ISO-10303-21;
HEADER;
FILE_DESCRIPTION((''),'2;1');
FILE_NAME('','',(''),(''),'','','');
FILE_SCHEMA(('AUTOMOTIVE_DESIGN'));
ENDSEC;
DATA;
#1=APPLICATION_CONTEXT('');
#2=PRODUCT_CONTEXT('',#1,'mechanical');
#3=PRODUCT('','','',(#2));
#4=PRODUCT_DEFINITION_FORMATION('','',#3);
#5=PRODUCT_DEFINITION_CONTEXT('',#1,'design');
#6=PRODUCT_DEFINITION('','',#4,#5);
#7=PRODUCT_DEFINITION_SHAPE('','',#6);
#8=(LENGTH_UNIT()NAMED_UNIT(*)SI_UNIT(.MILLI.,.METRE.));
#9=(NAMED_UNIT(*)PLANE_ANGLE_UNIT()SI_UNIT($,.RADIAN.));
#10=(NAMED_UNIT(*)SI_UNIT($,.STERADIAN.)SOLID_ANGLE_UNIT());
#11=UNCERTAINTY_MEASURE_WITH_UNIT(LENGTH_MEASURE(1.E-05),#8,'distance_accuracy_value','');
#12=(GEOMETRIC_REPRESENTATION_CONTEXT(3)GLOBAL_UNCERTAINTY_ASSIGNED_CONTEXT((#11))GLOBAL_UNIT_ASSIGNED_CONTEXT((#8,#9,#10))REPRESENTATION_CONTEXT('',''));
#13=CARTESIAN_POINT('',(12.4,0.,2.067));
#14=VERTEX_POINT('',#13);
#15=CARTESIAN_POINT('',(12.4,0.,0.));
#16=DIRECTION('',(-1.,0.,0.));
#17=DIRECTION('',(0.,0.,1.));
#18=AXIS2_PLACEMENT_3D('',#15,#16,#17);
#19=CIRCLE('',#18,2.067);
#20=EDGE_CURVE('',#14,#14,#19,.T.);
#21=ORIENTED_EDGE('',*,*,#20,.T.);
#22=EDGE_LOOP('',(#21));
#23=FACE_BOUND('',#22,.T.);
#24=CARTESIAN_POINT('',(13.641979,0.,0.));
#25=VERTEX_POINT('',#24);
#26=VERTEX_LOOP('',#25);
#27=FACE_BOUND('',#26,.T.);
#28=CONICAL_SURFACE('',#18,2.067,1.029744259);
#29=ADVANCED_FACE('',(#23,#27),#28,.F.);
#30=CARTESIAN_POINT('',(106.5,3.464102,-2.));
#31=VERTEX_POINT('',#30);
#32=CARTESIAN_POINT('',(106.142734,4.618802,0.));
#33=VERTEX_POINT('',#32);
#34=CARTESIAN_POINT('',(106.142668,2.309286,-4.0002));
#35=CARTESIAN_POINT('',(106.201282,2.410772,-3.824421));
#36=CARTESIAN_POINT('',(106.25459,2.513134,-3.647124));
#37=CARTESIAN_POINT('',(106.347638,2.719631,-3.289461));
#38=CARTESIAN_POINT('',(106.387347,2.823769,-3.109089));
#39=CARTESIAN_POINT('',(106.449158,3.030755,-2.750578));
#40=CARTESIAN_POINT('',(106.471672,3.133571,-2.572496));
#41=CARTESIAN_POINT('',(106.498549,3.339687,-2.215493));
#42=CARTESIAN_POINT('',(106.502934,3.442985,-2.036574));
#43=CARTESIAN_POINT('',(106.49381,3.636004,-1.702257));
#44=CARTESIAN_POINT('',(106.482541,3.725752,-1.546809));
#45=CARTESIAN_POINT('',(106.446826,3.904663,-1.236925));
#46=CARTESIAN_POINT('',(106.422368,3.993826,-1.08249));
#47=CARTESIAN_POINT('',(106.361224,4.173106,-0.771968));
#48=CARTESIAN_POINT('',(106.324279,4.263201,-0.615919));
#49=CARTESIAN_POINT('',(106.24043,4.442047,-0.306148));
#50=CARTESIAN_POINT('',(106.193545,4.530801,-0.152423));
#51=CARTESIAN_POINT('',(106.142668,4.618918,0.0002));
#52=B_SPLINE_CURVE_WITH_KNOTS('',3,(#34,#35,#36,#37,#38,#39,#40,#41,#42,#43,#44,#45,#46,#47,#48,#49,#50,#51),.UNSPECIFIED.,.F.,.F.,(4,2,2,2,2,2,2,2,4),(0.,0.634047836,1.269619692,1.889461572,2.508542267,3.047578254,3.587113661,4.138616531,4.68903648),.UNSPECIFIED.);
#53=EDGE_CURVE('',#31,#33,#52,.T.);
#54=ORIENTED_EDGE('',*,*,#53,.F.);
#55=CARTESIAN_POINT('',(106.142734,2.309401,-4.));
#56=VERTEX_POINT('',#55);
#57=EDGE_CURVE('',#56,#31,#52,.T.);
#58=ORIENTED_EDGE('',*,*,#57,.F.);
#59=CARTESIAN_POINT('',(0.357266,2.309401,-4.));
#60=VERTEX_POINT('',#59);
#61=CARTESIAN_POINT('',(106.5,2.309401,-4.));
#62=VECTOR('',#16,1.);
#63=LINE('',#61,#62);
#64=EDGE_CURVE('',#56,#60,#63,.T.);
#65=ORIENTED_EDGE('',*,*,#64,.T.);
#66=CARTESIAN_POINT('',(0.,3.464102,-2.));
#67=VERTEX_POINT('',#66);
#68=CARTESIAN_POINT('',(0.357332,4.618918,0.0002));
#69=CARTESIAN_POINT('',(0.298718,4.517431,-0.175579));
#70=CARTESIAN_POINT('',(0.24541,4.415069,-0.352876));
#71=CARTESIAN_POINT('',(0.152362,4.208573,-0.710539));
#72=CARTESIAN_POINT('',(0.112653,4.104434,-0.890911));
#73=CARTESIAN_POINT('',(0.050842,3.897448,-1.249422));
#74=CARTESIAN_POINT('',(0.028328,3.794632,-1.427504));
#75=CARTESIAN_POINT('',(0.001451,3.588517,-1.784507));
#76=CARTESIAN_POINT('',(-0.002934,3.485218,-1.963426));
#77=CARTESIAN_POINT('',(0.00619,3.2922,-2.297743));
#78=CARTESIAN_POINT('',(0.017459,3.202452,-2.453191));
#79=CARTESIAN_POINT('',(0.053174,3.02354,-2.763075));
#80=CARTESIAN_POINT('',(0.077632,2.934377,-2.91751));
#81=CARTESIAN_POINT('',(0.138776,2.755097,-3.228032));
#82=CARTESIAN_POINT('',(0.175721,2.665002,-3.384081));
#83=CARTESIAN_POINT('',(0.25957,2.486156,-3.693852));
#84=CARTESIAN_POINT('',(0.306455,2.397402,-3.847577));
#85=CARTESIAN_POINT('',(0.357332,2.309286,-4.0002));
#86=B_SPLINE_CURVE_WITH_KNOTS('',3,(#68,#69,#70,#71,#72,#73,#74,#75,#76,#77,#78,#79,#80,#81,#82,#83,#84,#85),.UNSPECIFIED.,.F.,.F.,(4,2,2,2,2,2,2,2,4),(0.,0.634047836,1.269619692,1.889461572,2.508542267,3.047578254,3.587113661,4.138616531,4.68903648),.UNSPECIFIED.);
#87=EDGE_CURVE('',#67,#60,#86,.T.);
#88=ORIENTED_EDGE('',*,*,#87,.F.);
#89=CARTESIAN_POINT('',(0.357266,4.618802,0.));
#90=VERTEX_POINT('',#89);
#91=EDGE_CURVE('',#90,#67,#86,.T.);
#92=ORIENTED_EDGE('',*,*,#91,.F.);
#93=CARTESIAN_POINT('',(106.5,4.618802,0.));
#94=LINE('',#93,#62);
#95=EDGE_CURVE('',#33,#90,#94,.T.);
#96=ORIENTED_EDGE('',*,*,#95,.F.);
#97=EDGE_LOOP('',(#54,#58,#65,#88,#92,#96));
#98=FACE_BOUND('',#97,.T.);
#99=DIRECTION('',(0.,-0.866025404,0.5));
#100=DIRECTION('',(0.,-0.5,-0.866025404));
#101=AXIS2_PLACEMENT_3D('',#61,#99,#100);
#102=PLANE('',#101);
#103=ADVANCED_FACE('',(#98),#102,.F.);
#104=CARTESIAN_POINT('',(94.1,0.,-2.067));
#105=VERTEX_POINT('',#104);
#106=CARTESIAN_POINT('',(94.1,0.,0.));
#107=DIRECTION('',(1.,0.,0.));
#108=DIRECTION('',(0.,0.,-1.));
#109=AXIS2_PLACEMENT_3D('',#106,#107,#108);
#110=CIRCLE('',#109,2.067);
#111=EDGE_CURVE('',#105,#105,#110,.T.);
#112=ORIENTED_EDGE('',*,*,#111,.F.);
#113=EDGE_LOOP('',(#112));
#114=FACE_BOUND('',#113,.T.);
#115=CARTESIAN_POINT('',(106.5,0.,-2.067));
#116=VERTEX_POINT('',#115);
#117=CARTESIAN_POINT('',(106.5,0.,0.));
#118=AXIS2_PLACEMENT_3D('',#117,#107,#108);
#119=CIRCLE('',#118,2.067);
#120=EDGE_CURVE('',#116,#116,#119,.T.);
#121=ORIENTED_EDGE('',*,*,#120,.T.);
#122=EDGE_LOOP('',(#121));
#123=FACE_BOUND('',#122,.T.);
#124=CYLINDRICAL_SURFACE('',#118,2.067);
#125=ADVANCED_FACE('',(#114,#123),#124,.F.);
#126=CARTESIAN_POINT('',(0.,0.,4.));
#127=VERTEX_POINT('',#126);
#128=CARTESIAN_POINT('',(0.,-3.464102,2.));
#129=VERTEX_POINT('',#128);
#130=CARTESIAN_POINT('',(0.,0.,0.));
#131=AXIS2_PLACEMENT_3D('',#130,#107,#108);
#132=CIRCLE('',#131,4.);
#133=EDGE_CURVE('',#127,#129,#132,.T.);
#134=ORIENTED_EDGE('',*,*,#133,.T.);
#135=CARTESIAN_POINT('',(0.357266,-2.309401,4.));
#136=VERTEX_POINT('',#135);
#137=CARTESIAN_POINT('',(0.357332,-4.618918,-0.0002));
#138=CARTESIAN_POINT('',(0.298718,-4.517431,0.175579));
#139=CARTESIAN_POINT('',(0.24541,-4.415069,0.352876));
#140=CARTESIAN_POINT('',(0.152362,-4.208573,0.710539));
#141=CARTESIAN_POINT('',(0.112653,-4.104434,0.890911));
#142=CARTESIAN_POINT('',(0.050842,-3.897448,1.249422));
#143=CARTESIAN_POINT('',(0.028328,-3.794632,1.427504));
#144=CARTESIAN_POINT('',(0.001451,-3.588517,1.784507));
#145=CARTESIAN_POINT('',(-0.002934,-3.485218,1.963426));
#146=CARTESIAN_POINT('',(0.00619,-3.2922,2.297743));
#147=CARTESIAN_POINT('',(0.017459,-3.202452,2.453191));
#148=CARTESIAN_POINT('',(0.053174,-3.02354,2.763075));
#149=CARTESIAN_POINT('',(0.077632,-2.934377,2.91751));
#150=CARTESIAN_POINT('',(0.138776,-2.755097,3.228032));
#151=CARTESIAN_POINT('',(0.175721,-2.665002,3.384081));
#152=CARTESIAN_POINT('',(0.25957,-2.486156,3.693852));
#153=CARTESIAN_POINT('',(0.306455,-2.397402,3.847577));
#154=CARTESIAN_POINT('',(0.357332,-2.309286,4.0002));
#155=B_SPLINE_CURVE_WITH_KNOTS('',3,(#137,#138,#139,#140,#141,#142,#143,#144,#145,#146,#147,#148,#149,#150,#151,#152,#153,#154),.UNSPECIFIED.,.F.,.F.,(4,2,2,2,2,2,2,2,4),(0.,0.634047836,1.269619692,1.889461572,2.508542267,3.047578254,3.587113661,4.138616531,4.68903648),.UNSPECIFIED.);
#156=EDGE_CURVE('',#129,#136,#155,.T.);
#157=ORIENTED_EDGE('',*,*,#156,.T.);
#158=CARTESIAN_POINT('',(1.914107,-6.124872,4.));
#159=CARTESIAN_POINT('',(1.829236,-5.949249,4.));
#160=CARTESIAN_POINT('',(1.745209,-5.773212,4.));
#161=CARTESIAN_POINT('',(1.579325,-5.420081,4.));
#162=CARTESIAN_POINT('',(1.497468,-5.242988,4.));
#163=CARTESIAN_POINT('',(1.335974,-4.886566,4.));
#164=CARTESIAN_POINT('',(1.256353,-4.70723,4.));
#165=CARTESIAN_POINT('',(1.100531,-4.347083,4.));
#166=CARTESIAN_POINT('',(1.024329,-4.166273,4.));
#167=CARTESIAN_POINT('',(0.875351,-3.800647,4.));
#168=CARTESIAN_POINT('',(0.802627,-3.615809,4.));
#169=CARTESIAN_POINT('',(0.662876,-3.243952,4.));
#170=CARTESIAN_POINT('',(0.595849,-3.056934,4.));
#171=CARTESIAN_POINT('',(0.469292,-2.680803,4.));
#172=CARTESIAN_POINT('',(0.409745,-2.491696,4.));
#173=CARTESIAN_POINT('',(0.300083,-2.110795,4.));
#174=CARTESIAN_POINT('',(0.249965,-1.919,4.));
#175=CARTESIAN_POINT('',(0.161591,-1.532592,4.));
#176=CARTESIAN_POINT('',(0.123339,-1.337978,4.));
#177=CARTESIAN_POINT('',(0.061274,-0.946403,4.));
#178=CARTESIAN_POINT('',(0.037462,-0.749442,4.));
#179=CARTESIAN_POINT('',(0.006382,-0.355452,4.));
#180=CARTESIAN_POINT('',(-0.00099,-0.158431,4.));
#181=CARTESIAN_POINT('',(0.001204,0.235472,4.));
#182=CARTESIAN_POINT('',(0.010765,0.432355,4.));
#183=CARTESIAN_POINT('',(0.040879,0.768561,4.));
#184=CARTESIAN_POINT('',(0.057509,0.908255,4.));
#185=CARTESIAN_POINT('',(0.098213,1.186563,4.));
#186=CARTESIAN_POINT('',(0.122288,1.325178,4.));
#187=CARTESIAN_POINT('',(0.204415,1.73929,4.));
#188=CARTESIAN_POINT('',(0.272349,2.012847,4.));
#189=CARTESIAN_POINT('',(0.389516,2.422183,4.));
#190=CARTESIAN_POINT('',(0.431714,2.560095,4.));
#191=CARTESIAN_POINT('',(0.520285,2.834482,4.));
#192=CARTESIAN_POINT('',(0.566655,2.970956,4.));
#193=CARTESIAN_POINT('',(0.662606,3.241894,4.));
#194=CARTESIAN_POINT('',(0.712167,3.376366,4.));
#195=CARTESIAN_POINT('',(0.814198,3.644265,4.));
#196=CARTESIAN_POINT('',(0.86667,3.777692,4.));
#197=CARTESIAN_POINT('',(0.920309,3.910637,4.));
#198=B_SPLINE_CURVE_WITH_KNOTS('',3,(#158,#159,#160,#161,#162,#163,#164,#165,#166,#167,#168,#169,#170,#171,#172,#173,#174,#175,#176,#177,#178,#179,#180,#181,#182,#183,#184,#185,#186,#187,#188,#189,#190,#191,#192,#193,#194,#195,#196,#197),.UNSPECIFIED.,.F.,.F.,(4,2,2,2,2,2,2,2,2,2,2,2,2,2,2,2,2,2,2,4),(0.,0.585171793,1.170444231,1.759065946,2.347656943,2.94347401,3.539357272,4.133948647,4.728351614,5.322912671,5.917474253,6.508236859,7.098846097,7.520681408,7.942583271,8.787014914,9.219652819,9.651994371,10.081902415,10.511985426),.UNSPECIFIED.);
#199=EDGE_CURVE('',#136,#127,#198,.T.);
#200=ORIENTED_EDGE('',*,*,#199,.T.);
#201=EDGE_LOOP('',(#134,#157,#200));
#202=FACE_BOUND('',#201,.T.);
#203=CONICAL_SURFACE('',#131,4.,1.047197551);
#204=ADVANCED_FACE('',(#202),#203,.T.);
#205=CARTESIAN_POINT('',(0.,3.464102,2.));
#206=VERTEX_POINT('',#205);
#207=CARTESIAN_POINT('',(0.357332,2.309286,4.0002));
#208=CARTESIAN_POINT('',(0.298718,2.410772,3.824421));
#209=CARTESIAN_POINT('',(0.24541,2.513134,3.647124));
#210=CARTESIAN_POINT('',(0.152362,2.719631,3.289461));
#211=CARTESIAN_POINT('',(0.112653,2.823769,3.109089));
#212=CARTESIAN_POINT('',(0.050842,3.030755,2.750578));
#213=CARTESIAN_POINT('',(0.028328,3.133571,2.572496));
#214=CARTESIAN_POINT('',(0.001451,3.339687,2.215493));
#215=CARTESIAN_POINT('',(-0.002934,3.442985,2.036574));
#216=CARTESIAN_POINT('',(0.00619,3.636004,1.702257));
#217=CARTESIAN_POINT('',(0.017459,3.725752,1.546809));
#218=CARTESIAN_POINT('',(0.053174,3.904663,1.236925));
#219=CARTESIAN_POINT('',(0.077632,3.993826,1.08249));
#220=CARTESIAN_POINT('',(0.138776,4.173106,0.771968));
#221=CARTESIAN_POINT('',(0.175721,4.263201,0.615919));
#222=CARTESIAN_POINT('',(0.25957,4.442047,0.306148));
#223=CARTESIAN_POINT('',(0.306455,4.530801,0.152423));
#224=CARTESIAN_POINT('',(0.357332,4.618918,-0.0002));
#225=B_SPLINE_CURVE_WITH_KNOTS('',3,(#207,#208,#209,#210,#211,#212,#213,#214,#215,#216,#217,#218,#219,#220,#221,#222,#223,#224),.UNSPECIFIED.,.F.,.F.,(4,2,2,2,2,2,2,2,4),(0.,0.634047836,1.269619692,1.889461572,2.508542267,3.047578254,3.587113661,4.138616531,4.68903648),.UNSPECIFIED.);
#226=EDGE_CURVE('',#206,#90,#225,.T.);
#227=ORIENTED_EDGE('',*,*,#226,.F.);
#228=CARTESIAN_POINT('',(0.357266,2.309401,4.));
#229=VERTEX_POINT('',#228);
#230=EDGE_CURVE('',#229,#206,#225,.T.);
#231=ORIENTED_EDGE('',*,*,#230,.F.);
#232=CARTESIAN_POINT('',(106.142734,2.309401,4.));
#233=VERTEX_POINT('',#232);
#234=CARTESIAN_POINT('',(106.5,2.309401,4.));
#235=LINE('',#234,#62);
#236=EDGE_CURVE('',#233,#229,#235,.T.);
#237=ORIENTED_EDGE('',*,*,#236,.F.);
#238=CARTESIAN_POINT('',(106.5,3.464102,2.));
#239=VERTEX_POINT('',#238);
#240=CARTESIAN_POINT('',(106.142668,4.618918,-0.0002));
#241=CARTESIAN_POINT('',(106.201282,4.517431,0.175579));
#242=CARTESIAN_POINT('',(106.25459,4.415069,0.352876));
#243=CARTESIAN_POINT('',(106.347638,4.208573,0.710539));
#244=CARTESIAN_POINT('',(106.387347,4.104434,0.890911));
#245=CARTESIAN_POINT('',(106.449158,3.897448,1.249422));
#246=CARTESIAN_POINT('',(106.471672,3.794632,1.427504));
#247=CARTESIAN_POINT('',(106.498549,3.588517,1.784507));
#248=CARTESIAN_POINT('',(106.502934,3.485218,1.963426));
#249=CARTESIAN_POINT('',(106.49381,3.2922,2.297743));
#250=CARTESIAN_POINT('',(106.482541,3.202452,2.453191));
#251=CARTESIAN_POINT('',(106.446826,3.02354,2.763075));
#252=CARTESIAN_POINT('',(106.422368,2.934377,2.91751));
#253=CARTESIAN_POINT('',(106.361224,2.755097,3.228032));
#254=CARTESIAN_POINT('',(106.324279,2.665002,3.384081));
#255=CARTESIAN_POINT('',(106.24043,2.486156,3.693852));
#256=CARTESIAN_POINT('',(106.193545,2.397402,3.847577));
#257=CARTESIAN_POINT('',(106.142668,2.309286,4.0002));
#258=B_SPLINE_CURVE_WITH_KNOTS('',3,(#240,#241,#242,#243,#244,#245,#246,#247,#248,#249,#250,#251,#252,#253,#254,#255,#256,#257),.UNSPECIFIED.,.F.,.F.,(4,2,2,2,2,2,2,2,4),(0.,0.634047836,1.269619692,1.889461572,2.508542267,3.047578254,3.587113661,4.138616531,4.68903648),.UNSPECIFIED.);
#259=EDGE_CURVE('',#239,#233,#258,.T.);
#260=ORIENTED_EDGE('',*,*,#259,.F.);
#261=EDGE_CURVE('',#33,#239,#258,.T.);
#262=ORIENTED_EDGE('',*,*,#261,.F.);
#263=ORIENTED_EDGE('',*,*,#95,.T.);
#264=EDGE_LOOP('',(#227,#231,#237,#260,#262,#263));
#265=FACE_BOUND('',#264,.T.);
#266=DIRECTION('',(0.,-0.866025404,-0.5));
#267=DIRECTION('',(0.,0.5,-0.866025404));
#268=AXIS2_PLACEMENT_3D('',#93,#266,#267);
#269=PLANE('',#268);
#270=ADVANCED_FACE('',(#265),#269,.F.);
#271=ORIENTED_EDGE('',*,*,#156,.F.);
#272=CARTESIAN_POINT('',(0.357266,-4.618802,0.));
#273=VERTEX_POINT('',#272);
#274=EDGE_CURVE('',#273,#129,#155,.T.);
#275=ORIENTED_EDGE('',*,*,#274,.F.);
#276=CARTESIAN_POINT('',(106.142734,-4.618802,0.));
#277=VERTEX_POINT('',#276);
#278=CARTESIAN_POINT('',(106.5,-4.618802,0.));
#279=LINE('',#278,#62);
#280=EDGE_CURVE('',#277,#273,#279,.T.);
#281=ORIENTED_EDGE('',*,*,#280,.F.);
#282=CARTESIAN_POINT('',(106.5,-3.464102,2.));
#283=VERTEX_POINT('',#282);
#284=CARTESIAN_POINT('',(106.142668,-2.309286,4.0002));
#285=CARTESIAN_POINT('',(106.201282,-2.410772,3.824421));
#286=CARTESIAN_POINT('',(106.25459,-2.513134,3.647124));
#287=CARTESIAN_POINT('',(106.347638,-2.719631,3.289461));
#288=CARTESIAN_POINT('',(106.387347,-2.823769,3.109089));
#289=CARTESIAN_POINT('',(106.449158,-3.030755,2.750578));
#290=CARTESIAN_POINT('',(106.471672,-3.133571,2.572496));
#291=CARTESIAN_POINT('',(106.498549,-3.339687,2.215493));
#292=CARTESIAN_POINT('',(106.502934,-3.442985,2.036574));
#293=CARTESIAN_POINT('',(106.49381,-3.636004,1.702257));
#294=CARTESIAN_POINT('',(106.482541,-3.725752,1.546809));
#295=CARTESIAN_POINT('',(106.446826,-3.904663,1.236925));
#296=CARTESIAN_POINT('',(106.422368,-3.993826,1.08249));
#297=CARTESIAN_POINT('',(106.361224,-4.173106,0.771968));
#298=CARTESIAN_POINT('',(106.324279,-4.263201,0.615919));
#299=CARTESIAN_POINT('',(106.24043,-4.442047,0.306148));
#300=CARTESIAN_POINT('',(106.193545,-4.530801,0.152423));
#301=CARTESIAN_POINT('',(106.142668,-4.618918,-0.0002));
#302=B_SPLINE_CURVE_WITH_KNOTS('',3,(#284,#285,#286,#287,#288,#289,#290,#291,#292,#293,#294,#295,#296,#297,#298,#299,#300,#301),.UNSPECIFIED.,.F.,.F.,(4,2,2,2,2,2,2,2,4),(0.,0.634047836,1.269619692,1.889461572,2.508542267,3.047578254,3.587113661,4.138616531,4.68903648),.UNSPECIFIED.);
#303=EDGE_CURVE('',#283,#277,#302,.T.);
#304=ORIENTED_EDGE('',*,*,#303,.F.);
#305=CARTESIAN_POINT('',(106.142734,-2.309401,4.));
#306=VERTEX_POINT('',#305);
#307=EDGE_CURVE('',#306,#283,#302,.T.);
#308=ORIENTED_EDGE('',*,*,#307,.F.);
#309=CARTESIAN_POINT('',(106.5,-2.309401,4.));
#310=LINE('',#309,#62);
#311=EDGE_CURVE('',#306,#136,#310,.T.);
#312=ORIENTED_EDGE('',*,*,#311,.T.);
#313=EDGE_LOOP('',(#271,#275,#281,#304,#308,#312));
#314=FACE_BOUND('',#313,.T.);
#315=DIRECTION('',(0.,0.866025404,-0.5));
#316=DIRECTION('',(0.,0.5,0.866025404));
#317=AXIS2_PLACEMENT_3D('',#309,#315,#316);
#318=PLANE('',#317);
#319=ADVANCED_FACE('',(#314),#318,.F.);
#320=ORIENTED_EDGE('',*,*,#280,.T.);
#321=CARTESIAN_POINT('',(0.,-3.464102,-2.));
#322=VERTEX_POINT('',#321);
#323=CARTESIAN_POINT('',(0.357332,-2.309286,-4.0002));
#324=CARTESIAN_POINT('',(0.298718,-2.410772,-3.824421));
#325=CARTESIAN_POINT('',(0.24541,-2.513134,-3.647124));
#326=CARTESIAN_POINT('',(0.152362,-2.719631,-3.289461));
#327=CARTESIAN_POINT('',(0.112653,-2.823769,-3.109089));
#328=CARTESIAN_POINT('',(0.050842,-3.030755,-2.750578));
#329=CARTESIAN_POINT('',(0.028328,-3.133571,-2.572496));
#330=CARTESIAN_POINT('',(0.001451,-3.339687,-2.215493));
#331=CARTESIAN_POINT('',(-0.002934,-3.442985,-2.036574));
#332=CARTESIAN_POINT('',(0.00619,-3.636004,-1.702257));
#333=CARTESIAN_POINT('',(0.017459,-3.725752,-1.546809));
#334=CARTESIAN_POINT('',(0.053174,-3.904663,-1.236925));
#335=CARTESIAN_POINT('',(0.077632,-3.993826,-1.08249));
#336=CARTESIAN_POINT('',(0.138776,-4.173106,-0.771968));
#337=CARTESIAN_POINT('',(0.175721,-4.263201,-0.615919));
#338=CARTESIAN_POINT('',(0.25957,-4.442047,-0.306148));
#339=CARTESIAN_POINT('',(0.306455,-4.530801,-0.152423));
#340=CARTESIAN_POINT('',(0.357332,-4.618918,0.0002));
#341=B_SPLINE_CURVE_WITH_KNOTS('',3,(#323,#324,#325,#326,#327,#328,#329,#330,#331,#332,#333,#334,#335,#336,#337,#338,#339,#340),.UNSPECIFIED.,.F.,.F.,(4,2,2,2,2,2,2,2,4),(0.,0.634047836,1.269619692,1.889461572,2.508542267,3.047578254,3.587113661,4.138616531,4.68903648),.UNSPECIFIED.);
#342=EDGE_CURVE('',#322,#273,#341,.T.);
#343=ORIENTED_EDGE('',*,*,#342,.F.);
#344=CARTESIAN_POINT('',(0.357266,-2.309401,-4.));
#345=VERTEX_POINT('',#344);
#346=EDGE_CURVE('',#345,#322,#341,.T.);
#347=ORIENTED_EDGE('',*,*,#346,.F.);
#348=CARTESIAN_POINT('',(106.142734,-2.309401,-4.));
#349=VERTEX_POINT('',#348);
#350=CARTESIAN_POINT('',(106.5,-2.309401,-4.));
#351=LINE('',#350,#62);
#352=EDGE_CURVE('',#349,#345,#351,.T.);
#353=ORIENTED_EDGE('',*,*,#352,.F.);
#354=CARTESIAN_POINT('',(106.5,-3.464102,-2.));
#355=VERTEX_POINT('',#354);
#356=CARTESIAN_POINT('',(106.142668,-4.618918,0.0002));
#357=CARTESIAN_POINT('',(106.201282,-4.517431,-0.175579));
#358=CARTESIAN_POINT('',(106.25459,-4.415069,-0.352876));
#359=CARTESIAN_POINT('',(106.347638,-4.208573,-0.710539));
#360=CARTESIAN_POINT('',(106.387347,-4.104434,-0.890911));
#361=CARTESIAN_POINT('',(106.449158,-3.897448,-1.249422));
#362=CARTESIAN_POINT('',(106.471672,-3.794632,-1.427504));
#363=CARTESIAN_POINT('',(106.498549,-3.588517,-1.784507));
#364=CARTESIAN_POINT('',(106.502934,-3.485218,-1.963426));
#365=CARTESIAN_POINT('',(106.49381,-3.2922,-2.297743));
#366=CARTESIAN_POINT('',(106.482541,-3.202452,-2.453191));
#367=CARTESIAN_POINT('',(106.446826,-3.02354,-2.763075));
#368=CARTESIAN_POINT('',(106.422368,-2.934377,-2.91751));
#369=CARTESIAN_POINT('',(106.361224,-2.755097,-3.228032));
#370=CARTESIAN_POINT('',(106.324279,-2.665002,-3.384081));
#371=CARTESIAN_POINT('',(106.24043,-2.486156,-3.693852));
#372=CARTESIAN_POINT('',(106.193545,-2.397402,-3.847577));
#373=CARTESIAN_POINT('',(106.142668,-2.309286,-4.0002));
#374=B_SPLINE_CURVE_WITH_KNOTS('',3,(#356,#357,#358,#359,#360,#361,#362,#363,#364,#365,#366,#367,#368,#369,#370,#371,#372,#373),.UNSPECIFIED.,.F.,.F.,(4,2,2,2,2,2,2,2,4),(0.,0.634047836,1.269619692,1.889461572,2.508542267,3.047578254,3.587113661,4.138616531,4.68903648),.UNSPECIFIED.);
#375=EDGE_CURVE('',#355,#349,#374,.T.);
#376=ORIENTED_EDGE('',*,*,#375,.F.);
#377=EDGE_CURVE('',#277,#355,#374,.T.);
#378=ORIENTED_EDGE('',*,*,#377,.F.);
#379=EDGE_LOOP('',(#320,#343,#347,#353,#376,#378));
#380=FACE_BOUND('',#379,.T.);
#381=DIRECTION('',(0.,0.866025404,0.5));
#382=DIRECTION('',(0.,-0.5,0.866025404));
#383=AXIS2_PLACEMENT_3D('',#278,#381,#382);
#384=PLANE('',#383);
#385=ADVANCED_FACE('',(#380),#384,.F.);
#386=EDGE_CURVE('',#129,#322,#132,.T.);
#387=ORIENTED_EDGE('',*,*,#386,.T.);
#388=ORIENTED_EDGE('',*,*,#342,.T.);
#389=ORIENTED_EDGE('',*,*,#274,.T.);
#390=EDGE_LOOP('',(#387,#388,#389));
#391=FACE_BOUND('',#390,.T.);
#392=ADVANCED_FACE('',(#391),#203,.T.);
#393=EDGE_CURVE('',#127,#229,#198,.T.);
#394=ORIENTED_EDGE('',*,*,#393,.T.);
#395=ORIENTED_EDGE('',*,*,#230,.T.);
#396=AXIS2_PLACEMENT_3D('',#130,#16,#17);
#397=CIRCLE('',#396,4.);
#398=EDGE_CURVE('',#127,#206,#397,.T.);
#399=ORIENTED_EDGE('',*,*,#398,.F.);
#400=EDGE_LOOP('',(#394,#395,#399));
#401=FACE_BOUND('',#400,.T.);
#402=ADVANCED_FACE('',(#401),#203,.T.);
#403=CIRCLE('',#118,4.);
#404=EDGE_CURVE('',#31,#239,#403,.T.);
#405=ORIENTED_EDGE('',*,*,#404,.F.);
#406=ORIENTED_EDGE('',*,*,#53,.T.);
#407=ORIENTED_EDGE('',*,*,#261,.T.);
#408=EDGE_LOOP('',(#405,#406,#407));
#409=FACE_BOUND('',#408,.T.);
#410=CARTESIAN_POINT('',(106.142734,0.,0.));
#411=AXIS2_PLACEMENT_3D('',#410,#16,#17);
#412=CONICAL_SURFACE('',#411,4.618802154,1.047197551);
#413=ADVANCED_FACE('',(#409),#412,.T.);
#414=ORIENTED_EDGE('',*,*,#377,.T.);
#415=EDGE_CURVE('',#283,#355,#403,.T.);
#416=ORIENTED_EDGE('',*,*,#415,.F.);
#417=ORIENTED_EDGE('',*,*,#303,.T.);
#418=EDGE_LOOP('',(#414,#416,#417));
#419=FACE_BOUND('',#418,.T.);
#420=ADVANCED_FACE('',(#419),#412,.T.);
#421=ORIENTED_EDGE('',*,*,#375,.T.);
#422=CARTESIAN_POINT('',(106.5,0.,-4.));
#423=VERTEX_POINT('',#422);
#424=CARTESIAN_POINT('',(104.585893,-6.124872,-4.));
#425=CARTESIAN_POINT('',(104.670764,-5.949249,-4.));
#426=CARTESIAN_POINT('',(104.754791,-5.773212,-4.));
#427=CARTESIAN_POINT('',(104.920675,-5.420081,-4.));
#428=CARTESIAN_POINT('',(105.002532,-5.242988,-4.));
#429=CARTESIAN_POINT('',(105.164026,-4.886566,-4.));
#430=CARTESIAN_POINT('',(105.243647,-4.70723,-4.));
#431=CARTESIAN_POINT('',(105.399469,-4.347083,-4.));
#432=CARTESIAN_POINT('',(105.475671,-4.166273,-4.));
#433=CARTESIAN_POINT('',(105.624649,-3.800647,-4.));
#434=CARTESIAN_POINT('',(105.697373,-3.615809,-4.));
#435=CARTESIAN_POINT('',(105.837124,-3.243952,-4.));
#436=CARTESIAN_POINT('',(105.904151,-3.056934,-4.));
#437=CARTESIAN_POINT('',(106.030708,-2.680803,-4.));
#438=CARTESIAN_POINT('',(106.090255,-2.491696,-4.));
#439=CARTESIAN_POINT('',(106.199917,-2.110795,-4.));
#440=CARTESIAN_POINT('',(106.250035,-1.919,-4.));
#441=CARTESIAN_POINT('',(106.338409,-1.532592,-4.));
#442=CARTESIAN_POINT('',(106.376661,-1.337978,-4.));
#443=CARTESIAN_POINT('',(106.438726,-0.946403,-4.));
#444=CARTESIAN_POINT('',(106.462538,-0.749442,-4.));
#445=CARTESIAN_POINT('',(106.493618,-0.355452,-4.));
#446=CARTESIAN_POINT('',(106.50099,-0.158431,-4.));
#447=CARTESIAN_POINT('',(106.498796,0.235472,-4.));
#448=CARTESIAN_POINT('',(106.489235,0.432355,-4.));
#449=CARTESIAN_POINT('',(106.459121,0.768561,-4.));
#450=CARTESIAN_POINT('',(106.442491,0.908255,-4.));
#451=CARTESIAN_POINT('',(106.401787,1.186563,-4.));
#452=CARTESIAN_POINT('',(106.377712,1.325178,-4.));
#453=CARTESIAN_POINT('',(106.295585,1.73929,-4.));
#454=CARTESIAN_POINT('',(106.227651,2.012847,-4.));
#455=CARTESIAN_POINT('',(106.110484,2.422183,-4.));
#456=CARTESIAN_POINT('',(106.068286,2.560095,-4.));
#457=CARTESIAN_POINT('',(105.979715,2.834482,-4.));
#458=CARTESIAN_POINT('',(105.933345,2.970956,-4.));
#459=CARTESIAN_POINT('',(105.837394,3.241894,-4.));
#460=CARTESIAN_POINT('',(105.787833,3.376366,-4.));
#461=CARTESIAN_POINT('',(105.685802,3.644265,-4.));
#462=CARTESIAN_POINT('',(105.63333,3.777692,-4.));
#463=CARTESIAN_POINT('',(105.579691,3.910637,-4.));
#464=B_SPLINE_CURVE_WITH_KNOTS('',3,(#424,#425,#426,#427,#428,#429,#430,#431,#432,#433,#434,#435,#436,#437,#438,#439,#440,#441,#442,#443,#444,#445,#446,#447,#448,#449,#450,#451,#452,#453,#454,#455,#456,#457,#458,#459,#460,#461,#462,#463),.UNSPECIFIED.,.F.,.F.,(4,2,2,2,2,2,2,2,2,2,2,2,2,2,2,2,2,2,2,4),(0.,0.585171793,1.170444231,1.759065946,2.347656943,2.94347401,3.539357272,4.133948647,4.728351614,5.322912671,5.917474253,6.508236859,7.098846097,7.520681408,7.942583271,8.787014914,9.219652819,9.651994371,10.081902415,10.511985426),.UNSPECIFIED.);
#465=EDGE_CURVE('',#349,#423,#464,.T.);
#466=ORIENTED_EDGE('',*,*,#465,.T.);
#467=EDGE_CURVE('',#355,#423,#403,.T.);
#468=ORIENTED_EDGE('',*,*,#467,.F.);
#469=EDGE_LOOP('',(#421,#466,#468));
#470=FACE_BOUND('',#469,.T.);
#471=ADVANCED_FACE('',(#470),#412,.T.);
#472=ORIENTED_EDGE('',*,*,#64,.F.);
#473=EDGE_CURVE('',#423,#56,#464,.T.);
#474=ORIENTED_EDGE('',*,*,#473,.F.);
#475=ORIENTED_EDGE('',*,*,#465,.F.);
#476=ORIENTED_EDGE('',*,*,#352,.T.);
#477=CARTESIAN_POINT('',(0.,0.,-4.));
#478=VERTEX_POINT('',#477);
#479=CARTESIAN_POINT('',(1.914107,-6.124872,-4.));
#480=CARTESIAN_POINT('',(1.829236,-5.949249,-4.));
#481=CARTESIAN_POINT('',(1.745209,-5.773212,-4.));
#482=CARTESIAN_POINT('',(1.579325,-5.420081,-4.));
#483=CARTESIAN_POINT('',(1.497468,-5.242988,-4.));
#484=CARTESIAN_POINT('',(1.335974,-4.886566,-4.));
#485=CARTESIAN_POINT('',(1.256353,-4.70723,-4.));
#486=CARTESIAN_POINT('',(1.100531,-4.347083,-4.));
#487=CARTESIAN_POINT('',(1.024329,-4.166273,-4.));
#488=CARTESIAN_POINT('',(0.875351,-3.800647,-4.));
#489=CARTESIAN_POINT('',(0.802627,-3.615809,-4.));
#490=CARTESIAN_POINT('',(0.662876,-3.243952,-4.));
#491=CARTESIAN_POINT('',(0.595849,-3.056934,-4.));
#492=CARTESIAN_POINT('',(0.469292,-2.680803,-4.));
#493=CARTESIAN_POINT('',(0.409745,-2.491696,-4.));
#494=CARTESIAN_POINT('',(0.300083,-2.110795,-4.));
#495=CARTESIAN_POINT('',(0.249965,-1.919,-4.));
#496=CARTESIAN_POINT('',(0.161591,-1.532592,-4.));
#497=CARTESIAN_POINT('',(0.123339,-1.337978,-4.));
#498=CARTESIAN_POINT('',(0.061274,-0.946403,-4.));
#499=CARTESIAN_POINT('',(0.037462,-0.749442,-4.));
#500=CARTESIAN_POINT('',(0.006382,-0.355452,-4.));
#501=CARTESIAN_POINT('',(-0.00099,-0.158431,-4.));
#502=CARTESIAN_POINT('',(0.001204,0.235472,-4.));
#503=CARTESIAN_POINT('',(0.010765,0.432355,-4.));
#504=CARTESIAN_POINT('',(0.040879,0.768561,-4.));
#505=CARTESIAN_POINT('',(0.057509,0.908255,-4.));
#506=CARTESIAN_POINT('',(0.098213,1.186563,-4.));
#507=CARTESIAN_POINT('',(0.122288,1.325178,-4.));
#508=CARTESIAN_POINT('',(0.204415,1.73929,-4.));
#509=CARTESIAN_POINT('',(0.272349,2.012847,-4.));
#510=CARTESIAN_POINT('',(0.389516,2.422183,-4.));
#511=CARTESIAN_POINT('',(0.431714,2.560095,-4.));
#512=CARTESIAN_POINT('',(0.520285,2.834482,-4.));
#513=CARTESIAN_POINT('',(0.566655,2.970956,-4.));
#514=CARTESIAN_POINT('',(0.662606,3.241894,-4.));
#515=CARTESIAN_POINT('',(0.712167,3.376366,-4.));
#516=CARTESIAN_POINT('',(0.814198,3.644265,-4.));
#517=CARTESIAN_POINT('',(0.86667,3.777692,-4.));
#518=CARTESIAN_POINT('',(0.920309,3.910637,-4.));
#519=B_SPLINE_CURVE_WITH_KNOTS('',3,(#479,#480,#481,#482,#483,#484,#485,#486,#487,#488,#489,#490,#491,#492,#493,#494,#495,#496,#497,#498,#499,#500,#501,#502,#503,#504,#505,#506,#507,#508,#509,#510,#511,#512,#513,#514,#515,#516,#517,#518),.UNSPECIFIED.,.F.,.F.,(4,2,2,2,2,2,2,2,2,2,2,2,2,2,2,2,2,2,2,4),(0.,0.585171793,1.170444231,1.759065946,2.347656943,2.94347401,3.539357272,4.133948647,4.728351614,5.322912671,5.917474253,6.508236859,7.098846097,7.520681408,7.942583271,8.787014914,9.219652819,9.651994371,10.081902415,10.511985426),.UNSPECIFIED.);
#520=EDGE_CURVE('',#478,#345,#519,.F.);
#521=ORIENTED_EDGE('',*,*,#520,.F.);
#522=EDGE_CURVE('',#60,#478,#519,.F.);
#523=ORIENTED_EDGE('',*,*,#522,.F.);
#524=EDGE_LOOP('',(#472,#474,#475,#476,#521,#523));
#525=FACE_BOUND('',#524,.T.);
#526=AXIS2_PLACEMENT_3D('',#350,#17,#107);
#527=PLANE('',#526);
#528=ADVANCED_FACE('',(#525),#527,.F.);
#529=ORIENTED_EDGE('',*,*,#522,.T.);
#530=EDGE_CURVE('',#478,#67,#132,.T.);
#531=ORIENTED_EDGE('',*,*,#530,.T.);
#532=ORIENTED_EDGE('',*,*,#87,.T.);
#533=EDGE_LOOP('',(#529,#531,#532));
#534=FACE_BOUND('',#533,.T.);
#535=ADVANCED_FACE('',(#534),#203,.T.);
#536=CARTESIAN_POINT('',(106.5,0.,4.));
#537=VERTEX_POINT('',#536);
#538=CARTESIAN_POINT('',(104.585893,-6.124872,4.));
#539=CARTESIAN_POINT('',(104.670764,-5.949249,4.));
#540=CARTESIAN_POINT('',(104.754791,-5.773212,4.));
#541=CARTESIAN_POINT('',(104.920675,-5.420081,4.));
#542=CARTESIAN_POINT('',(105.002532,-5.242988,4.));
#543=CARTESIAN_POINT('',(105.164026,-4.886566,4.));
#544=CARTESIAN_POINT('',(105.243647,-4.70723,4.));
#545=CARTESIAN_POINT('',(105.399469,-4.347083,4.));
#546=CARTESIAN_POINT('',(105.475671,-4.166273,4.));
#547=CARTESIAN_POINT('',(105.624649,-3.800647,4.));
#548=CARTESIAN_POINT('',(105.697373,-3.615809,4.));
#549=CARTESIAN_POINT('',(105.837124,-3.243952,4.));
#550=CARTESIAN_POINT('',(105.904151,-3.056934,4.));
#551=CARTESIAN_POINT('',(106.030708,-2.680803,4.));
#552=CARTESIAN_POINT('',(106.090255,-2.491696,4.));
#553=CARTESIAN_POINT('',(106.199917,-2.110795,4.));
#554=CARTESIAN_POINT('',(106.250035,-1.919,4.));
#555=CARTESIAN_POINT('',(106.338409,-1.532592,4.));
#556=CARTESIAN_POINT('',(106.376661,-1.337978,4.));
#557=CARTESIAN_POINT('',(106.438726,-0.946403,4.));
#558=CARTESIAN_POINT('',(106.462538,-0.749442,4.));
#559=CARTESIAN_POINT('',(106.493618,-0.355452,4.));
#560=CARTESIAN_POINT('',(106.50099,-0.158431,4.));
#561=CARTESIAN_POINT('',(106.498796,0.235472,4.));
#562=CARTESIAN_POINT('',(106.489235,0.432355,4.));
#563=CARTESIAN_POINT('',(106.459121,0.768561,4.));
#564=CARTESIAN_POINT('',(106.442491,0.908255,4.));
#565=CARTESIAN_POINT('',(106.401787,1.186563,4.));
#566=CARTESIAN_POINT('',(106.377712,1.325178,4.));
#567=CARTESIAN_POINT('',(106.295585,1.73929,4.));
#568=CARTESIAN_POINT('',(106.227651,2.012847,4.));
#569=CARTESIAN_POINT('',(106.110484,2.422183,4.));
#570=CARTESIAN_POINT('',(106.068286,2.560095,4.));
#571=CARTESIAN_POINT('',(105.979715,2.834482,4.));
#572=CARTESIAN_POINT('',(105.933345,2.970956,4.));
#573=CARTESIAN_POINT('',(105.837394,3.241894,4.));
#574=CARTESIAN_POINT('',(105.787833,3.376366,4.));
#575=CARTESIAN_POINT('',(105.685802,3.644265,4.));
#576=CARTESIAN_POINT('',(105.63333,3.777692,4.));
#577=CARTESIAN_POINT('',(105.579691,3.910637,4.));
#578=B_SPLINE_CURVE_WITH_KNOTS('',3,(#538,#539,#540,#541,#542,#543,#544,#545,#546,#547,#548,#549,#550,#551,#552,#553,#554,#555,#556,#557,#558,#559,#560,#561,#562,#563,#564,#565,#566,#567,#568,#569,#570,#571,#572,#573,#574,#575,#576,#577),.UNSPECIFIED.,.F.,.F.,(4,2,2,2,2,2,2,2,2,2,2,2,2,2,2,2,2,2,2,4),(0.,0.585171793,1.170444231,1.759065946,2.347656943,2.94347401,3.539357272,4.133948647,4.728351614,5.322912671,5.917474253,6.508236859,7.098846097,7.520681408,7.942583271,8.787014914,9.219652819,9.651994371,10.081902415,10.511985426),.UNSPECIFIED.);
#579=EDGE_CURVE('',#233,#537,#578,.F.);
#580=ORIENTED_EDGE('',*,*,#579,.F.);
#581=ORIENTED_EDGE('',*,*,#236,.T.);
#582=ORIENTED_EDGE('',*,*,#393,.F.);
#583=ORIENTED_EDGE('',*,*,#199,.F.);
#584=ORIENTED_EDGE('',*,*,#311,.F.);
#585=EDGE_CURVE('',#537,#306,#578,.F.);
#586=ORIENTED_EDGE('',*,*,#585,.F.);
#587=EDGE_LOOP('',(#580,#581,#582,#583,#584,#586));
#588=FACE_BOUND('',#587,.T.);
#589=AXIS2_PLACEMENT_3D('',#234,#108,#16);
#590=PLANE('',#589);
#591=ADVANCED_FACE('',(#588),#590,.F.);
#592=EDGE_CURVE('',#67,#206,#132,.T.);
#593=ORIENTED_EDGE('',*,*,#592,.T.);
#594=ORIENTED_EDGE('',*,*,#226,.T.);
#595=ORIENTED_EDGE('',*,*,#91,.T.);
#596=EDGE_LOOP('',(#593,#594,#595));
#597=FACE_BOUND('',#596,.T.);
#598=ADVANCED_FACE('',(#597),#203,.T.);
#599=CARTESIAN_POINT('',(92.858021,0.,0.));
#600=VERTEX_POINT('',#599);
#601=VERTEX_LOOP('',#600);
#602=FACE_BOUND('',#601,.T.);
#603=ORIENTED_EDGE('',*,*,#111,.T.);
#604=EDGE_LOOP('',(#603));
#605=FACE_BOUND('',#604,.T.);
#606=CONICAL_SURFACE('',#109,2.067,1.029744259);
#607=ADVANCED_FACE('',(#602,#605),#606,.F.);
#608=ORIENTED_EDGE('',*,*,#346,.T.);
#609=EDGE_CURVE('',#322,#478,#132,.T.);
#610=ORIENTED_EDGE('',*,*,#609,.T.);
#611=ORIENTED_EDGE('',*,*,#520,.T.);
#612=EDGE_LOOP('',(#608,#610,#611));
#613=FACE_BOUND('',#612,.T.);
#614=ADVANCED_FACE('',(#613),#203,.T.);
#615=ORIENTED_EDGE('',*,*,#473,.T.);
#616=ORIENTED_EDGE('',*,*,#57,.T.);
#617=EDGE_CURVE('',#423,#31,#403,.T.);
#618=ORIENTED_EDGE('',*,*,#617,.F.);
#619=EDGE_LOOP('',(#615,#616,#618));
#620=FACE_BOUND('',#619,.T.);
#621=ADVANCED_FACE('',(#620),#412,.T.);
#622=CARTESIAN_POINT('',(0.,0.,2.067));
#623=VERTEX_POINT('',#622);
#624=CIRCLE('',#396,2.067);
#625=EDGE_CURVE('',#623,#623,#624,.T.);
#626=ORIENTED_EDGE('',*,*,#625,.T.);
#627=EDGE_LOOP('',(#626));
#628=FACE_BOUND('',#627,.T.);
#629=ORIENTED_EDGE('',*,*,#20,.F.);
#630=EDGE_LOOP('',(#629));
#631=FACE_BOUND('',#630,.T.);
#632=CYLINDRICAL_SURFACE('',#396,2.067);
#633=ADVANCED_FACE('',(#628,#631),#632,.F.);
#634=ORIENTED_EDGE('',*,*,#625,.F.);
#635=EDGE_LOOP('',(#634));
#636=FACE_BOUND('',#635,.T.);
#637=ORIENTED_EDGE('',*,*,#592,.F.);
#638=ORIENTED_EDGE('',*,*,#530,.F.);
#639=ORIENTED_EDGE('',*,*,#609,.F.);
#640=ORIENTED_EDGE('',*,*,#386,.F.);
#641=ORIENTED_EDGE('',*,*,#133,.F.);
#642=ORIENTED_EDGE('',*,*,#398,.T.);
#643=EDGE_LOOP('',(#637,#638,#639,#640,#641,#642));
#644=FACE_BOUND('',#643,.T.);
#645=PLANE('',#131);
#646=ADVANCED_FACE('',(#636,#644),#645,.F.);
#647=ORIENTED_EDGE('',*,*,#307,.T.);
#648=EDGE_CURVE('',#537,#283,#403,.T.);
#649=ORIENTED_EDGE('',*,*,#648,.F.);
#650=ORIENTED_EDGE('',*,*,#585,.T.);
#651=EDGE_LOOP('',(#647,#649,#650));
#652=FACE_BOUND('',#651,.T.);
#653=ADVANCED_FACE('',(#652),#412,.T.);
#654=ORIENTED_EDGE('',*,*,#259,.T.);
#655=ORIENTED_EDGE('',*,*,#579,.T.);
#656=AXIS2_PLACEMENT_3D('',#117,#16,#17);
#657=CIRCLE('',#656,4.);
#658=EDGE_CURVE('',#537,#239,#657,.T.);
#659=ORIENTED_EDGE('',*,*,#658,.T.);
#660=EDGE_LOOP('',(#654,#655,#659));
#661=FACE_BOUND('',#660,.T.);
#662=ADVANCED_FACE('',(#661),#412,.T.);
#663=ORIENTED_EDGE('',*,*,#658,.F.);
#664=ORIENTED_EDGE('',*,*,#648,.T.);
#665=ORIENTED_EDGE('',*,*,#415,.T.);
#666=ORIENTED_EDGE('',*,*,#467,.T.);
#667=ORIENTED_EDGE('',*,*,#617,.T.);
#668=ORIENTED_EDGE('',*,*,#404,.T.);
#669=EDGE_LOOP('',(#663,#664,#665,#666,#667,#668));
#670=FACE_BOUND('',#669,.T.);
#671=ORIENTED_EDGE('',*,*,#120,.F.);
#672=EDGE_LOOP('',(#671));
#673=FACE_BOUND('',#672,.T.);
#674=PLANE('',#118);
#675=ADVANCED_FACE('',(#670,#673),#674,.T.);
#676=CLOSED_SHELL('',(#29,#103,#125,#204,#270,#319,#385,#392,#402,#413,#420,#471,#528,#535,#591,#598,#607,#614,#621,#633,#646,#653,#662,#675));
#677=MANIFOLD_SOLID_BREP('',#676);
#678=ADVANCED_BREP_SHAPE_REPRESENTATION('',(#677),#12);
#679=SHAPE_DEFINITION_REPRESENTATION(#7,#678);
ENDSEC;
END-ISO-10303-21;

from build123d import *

# Parameters (mm, degrees)
BOSS_EXTRUDE1_DEPTH = 106.5
TAP1_D              = 4.134
TAP1_DEPTH          = 12.4
TAP1_TIP            = 1.2419789
TAP2_D              = 4.134
TAP2_DEPTH          = 12.4
TAP2_TIP            = 1.2419789


with BuildPart() as part:
    # Sketch1 → Boss-Extrude1 (new body)
    with BuildSketch(Plane(origin=(0, 0, 0), x_dir=(0, 0, -1), z_dir=(1, 0, 0))):
        Polygon((0, -4.618802154), (4, -2.309401077), (4, 2.309401077), (0, 4.618802154), (-4, 2.309401077), (-4, -2.309401077), align=None)
    extrude(amount=BOSS_EXTRUDE1_DEPTH)

    # Sketch2 → Cut-Revolve1 (revolve, cut)
    with BuildSketch(Plane.XY):
        Polygon((0, 4.618802154), (0.35726559, 4.618802154), (0, 4), align=None)
        Polygon((106.14273441, 4.618802154), (106.5, 4), (106.5, 4.618802154), align=None)
    revolve(axis=Axis((0, 0, 0), (1, 0, 0)), mode=Mode.SUBTRACT)

    # Tap1
    with Locations(Plane.ZY):
        with Locations((0, 0)):
            Hole(TAP1_D / 2, depth=TAP1_DEPTH)
            with Locations((0, 0, -(TAP1_DEPTH + TAP1_TIP / 2))):  # 118° drill point
                Cone(0, TAP1_D / 2, TAP1_TIP, mode=Mode.SUBTRACT)

    # Tap2
    with Locations(Plane(origin=(106.5, 0, 0), x_dir=(0, 0, -1), z_dir=(1, 0, 0))):
        with Locations((0, 0)):
            Hole(TAP2_D / 2, depth=TAP2_DEPTH)
            with Locations((0, 0, -(TAP2_DEPTH + TAP2_TIP / 2))):  # 118° drill point
                Cone(0, TAP2_D / 2, TAP2_TIP, mode=Mode.SUBTRACT)


solid = part.part
